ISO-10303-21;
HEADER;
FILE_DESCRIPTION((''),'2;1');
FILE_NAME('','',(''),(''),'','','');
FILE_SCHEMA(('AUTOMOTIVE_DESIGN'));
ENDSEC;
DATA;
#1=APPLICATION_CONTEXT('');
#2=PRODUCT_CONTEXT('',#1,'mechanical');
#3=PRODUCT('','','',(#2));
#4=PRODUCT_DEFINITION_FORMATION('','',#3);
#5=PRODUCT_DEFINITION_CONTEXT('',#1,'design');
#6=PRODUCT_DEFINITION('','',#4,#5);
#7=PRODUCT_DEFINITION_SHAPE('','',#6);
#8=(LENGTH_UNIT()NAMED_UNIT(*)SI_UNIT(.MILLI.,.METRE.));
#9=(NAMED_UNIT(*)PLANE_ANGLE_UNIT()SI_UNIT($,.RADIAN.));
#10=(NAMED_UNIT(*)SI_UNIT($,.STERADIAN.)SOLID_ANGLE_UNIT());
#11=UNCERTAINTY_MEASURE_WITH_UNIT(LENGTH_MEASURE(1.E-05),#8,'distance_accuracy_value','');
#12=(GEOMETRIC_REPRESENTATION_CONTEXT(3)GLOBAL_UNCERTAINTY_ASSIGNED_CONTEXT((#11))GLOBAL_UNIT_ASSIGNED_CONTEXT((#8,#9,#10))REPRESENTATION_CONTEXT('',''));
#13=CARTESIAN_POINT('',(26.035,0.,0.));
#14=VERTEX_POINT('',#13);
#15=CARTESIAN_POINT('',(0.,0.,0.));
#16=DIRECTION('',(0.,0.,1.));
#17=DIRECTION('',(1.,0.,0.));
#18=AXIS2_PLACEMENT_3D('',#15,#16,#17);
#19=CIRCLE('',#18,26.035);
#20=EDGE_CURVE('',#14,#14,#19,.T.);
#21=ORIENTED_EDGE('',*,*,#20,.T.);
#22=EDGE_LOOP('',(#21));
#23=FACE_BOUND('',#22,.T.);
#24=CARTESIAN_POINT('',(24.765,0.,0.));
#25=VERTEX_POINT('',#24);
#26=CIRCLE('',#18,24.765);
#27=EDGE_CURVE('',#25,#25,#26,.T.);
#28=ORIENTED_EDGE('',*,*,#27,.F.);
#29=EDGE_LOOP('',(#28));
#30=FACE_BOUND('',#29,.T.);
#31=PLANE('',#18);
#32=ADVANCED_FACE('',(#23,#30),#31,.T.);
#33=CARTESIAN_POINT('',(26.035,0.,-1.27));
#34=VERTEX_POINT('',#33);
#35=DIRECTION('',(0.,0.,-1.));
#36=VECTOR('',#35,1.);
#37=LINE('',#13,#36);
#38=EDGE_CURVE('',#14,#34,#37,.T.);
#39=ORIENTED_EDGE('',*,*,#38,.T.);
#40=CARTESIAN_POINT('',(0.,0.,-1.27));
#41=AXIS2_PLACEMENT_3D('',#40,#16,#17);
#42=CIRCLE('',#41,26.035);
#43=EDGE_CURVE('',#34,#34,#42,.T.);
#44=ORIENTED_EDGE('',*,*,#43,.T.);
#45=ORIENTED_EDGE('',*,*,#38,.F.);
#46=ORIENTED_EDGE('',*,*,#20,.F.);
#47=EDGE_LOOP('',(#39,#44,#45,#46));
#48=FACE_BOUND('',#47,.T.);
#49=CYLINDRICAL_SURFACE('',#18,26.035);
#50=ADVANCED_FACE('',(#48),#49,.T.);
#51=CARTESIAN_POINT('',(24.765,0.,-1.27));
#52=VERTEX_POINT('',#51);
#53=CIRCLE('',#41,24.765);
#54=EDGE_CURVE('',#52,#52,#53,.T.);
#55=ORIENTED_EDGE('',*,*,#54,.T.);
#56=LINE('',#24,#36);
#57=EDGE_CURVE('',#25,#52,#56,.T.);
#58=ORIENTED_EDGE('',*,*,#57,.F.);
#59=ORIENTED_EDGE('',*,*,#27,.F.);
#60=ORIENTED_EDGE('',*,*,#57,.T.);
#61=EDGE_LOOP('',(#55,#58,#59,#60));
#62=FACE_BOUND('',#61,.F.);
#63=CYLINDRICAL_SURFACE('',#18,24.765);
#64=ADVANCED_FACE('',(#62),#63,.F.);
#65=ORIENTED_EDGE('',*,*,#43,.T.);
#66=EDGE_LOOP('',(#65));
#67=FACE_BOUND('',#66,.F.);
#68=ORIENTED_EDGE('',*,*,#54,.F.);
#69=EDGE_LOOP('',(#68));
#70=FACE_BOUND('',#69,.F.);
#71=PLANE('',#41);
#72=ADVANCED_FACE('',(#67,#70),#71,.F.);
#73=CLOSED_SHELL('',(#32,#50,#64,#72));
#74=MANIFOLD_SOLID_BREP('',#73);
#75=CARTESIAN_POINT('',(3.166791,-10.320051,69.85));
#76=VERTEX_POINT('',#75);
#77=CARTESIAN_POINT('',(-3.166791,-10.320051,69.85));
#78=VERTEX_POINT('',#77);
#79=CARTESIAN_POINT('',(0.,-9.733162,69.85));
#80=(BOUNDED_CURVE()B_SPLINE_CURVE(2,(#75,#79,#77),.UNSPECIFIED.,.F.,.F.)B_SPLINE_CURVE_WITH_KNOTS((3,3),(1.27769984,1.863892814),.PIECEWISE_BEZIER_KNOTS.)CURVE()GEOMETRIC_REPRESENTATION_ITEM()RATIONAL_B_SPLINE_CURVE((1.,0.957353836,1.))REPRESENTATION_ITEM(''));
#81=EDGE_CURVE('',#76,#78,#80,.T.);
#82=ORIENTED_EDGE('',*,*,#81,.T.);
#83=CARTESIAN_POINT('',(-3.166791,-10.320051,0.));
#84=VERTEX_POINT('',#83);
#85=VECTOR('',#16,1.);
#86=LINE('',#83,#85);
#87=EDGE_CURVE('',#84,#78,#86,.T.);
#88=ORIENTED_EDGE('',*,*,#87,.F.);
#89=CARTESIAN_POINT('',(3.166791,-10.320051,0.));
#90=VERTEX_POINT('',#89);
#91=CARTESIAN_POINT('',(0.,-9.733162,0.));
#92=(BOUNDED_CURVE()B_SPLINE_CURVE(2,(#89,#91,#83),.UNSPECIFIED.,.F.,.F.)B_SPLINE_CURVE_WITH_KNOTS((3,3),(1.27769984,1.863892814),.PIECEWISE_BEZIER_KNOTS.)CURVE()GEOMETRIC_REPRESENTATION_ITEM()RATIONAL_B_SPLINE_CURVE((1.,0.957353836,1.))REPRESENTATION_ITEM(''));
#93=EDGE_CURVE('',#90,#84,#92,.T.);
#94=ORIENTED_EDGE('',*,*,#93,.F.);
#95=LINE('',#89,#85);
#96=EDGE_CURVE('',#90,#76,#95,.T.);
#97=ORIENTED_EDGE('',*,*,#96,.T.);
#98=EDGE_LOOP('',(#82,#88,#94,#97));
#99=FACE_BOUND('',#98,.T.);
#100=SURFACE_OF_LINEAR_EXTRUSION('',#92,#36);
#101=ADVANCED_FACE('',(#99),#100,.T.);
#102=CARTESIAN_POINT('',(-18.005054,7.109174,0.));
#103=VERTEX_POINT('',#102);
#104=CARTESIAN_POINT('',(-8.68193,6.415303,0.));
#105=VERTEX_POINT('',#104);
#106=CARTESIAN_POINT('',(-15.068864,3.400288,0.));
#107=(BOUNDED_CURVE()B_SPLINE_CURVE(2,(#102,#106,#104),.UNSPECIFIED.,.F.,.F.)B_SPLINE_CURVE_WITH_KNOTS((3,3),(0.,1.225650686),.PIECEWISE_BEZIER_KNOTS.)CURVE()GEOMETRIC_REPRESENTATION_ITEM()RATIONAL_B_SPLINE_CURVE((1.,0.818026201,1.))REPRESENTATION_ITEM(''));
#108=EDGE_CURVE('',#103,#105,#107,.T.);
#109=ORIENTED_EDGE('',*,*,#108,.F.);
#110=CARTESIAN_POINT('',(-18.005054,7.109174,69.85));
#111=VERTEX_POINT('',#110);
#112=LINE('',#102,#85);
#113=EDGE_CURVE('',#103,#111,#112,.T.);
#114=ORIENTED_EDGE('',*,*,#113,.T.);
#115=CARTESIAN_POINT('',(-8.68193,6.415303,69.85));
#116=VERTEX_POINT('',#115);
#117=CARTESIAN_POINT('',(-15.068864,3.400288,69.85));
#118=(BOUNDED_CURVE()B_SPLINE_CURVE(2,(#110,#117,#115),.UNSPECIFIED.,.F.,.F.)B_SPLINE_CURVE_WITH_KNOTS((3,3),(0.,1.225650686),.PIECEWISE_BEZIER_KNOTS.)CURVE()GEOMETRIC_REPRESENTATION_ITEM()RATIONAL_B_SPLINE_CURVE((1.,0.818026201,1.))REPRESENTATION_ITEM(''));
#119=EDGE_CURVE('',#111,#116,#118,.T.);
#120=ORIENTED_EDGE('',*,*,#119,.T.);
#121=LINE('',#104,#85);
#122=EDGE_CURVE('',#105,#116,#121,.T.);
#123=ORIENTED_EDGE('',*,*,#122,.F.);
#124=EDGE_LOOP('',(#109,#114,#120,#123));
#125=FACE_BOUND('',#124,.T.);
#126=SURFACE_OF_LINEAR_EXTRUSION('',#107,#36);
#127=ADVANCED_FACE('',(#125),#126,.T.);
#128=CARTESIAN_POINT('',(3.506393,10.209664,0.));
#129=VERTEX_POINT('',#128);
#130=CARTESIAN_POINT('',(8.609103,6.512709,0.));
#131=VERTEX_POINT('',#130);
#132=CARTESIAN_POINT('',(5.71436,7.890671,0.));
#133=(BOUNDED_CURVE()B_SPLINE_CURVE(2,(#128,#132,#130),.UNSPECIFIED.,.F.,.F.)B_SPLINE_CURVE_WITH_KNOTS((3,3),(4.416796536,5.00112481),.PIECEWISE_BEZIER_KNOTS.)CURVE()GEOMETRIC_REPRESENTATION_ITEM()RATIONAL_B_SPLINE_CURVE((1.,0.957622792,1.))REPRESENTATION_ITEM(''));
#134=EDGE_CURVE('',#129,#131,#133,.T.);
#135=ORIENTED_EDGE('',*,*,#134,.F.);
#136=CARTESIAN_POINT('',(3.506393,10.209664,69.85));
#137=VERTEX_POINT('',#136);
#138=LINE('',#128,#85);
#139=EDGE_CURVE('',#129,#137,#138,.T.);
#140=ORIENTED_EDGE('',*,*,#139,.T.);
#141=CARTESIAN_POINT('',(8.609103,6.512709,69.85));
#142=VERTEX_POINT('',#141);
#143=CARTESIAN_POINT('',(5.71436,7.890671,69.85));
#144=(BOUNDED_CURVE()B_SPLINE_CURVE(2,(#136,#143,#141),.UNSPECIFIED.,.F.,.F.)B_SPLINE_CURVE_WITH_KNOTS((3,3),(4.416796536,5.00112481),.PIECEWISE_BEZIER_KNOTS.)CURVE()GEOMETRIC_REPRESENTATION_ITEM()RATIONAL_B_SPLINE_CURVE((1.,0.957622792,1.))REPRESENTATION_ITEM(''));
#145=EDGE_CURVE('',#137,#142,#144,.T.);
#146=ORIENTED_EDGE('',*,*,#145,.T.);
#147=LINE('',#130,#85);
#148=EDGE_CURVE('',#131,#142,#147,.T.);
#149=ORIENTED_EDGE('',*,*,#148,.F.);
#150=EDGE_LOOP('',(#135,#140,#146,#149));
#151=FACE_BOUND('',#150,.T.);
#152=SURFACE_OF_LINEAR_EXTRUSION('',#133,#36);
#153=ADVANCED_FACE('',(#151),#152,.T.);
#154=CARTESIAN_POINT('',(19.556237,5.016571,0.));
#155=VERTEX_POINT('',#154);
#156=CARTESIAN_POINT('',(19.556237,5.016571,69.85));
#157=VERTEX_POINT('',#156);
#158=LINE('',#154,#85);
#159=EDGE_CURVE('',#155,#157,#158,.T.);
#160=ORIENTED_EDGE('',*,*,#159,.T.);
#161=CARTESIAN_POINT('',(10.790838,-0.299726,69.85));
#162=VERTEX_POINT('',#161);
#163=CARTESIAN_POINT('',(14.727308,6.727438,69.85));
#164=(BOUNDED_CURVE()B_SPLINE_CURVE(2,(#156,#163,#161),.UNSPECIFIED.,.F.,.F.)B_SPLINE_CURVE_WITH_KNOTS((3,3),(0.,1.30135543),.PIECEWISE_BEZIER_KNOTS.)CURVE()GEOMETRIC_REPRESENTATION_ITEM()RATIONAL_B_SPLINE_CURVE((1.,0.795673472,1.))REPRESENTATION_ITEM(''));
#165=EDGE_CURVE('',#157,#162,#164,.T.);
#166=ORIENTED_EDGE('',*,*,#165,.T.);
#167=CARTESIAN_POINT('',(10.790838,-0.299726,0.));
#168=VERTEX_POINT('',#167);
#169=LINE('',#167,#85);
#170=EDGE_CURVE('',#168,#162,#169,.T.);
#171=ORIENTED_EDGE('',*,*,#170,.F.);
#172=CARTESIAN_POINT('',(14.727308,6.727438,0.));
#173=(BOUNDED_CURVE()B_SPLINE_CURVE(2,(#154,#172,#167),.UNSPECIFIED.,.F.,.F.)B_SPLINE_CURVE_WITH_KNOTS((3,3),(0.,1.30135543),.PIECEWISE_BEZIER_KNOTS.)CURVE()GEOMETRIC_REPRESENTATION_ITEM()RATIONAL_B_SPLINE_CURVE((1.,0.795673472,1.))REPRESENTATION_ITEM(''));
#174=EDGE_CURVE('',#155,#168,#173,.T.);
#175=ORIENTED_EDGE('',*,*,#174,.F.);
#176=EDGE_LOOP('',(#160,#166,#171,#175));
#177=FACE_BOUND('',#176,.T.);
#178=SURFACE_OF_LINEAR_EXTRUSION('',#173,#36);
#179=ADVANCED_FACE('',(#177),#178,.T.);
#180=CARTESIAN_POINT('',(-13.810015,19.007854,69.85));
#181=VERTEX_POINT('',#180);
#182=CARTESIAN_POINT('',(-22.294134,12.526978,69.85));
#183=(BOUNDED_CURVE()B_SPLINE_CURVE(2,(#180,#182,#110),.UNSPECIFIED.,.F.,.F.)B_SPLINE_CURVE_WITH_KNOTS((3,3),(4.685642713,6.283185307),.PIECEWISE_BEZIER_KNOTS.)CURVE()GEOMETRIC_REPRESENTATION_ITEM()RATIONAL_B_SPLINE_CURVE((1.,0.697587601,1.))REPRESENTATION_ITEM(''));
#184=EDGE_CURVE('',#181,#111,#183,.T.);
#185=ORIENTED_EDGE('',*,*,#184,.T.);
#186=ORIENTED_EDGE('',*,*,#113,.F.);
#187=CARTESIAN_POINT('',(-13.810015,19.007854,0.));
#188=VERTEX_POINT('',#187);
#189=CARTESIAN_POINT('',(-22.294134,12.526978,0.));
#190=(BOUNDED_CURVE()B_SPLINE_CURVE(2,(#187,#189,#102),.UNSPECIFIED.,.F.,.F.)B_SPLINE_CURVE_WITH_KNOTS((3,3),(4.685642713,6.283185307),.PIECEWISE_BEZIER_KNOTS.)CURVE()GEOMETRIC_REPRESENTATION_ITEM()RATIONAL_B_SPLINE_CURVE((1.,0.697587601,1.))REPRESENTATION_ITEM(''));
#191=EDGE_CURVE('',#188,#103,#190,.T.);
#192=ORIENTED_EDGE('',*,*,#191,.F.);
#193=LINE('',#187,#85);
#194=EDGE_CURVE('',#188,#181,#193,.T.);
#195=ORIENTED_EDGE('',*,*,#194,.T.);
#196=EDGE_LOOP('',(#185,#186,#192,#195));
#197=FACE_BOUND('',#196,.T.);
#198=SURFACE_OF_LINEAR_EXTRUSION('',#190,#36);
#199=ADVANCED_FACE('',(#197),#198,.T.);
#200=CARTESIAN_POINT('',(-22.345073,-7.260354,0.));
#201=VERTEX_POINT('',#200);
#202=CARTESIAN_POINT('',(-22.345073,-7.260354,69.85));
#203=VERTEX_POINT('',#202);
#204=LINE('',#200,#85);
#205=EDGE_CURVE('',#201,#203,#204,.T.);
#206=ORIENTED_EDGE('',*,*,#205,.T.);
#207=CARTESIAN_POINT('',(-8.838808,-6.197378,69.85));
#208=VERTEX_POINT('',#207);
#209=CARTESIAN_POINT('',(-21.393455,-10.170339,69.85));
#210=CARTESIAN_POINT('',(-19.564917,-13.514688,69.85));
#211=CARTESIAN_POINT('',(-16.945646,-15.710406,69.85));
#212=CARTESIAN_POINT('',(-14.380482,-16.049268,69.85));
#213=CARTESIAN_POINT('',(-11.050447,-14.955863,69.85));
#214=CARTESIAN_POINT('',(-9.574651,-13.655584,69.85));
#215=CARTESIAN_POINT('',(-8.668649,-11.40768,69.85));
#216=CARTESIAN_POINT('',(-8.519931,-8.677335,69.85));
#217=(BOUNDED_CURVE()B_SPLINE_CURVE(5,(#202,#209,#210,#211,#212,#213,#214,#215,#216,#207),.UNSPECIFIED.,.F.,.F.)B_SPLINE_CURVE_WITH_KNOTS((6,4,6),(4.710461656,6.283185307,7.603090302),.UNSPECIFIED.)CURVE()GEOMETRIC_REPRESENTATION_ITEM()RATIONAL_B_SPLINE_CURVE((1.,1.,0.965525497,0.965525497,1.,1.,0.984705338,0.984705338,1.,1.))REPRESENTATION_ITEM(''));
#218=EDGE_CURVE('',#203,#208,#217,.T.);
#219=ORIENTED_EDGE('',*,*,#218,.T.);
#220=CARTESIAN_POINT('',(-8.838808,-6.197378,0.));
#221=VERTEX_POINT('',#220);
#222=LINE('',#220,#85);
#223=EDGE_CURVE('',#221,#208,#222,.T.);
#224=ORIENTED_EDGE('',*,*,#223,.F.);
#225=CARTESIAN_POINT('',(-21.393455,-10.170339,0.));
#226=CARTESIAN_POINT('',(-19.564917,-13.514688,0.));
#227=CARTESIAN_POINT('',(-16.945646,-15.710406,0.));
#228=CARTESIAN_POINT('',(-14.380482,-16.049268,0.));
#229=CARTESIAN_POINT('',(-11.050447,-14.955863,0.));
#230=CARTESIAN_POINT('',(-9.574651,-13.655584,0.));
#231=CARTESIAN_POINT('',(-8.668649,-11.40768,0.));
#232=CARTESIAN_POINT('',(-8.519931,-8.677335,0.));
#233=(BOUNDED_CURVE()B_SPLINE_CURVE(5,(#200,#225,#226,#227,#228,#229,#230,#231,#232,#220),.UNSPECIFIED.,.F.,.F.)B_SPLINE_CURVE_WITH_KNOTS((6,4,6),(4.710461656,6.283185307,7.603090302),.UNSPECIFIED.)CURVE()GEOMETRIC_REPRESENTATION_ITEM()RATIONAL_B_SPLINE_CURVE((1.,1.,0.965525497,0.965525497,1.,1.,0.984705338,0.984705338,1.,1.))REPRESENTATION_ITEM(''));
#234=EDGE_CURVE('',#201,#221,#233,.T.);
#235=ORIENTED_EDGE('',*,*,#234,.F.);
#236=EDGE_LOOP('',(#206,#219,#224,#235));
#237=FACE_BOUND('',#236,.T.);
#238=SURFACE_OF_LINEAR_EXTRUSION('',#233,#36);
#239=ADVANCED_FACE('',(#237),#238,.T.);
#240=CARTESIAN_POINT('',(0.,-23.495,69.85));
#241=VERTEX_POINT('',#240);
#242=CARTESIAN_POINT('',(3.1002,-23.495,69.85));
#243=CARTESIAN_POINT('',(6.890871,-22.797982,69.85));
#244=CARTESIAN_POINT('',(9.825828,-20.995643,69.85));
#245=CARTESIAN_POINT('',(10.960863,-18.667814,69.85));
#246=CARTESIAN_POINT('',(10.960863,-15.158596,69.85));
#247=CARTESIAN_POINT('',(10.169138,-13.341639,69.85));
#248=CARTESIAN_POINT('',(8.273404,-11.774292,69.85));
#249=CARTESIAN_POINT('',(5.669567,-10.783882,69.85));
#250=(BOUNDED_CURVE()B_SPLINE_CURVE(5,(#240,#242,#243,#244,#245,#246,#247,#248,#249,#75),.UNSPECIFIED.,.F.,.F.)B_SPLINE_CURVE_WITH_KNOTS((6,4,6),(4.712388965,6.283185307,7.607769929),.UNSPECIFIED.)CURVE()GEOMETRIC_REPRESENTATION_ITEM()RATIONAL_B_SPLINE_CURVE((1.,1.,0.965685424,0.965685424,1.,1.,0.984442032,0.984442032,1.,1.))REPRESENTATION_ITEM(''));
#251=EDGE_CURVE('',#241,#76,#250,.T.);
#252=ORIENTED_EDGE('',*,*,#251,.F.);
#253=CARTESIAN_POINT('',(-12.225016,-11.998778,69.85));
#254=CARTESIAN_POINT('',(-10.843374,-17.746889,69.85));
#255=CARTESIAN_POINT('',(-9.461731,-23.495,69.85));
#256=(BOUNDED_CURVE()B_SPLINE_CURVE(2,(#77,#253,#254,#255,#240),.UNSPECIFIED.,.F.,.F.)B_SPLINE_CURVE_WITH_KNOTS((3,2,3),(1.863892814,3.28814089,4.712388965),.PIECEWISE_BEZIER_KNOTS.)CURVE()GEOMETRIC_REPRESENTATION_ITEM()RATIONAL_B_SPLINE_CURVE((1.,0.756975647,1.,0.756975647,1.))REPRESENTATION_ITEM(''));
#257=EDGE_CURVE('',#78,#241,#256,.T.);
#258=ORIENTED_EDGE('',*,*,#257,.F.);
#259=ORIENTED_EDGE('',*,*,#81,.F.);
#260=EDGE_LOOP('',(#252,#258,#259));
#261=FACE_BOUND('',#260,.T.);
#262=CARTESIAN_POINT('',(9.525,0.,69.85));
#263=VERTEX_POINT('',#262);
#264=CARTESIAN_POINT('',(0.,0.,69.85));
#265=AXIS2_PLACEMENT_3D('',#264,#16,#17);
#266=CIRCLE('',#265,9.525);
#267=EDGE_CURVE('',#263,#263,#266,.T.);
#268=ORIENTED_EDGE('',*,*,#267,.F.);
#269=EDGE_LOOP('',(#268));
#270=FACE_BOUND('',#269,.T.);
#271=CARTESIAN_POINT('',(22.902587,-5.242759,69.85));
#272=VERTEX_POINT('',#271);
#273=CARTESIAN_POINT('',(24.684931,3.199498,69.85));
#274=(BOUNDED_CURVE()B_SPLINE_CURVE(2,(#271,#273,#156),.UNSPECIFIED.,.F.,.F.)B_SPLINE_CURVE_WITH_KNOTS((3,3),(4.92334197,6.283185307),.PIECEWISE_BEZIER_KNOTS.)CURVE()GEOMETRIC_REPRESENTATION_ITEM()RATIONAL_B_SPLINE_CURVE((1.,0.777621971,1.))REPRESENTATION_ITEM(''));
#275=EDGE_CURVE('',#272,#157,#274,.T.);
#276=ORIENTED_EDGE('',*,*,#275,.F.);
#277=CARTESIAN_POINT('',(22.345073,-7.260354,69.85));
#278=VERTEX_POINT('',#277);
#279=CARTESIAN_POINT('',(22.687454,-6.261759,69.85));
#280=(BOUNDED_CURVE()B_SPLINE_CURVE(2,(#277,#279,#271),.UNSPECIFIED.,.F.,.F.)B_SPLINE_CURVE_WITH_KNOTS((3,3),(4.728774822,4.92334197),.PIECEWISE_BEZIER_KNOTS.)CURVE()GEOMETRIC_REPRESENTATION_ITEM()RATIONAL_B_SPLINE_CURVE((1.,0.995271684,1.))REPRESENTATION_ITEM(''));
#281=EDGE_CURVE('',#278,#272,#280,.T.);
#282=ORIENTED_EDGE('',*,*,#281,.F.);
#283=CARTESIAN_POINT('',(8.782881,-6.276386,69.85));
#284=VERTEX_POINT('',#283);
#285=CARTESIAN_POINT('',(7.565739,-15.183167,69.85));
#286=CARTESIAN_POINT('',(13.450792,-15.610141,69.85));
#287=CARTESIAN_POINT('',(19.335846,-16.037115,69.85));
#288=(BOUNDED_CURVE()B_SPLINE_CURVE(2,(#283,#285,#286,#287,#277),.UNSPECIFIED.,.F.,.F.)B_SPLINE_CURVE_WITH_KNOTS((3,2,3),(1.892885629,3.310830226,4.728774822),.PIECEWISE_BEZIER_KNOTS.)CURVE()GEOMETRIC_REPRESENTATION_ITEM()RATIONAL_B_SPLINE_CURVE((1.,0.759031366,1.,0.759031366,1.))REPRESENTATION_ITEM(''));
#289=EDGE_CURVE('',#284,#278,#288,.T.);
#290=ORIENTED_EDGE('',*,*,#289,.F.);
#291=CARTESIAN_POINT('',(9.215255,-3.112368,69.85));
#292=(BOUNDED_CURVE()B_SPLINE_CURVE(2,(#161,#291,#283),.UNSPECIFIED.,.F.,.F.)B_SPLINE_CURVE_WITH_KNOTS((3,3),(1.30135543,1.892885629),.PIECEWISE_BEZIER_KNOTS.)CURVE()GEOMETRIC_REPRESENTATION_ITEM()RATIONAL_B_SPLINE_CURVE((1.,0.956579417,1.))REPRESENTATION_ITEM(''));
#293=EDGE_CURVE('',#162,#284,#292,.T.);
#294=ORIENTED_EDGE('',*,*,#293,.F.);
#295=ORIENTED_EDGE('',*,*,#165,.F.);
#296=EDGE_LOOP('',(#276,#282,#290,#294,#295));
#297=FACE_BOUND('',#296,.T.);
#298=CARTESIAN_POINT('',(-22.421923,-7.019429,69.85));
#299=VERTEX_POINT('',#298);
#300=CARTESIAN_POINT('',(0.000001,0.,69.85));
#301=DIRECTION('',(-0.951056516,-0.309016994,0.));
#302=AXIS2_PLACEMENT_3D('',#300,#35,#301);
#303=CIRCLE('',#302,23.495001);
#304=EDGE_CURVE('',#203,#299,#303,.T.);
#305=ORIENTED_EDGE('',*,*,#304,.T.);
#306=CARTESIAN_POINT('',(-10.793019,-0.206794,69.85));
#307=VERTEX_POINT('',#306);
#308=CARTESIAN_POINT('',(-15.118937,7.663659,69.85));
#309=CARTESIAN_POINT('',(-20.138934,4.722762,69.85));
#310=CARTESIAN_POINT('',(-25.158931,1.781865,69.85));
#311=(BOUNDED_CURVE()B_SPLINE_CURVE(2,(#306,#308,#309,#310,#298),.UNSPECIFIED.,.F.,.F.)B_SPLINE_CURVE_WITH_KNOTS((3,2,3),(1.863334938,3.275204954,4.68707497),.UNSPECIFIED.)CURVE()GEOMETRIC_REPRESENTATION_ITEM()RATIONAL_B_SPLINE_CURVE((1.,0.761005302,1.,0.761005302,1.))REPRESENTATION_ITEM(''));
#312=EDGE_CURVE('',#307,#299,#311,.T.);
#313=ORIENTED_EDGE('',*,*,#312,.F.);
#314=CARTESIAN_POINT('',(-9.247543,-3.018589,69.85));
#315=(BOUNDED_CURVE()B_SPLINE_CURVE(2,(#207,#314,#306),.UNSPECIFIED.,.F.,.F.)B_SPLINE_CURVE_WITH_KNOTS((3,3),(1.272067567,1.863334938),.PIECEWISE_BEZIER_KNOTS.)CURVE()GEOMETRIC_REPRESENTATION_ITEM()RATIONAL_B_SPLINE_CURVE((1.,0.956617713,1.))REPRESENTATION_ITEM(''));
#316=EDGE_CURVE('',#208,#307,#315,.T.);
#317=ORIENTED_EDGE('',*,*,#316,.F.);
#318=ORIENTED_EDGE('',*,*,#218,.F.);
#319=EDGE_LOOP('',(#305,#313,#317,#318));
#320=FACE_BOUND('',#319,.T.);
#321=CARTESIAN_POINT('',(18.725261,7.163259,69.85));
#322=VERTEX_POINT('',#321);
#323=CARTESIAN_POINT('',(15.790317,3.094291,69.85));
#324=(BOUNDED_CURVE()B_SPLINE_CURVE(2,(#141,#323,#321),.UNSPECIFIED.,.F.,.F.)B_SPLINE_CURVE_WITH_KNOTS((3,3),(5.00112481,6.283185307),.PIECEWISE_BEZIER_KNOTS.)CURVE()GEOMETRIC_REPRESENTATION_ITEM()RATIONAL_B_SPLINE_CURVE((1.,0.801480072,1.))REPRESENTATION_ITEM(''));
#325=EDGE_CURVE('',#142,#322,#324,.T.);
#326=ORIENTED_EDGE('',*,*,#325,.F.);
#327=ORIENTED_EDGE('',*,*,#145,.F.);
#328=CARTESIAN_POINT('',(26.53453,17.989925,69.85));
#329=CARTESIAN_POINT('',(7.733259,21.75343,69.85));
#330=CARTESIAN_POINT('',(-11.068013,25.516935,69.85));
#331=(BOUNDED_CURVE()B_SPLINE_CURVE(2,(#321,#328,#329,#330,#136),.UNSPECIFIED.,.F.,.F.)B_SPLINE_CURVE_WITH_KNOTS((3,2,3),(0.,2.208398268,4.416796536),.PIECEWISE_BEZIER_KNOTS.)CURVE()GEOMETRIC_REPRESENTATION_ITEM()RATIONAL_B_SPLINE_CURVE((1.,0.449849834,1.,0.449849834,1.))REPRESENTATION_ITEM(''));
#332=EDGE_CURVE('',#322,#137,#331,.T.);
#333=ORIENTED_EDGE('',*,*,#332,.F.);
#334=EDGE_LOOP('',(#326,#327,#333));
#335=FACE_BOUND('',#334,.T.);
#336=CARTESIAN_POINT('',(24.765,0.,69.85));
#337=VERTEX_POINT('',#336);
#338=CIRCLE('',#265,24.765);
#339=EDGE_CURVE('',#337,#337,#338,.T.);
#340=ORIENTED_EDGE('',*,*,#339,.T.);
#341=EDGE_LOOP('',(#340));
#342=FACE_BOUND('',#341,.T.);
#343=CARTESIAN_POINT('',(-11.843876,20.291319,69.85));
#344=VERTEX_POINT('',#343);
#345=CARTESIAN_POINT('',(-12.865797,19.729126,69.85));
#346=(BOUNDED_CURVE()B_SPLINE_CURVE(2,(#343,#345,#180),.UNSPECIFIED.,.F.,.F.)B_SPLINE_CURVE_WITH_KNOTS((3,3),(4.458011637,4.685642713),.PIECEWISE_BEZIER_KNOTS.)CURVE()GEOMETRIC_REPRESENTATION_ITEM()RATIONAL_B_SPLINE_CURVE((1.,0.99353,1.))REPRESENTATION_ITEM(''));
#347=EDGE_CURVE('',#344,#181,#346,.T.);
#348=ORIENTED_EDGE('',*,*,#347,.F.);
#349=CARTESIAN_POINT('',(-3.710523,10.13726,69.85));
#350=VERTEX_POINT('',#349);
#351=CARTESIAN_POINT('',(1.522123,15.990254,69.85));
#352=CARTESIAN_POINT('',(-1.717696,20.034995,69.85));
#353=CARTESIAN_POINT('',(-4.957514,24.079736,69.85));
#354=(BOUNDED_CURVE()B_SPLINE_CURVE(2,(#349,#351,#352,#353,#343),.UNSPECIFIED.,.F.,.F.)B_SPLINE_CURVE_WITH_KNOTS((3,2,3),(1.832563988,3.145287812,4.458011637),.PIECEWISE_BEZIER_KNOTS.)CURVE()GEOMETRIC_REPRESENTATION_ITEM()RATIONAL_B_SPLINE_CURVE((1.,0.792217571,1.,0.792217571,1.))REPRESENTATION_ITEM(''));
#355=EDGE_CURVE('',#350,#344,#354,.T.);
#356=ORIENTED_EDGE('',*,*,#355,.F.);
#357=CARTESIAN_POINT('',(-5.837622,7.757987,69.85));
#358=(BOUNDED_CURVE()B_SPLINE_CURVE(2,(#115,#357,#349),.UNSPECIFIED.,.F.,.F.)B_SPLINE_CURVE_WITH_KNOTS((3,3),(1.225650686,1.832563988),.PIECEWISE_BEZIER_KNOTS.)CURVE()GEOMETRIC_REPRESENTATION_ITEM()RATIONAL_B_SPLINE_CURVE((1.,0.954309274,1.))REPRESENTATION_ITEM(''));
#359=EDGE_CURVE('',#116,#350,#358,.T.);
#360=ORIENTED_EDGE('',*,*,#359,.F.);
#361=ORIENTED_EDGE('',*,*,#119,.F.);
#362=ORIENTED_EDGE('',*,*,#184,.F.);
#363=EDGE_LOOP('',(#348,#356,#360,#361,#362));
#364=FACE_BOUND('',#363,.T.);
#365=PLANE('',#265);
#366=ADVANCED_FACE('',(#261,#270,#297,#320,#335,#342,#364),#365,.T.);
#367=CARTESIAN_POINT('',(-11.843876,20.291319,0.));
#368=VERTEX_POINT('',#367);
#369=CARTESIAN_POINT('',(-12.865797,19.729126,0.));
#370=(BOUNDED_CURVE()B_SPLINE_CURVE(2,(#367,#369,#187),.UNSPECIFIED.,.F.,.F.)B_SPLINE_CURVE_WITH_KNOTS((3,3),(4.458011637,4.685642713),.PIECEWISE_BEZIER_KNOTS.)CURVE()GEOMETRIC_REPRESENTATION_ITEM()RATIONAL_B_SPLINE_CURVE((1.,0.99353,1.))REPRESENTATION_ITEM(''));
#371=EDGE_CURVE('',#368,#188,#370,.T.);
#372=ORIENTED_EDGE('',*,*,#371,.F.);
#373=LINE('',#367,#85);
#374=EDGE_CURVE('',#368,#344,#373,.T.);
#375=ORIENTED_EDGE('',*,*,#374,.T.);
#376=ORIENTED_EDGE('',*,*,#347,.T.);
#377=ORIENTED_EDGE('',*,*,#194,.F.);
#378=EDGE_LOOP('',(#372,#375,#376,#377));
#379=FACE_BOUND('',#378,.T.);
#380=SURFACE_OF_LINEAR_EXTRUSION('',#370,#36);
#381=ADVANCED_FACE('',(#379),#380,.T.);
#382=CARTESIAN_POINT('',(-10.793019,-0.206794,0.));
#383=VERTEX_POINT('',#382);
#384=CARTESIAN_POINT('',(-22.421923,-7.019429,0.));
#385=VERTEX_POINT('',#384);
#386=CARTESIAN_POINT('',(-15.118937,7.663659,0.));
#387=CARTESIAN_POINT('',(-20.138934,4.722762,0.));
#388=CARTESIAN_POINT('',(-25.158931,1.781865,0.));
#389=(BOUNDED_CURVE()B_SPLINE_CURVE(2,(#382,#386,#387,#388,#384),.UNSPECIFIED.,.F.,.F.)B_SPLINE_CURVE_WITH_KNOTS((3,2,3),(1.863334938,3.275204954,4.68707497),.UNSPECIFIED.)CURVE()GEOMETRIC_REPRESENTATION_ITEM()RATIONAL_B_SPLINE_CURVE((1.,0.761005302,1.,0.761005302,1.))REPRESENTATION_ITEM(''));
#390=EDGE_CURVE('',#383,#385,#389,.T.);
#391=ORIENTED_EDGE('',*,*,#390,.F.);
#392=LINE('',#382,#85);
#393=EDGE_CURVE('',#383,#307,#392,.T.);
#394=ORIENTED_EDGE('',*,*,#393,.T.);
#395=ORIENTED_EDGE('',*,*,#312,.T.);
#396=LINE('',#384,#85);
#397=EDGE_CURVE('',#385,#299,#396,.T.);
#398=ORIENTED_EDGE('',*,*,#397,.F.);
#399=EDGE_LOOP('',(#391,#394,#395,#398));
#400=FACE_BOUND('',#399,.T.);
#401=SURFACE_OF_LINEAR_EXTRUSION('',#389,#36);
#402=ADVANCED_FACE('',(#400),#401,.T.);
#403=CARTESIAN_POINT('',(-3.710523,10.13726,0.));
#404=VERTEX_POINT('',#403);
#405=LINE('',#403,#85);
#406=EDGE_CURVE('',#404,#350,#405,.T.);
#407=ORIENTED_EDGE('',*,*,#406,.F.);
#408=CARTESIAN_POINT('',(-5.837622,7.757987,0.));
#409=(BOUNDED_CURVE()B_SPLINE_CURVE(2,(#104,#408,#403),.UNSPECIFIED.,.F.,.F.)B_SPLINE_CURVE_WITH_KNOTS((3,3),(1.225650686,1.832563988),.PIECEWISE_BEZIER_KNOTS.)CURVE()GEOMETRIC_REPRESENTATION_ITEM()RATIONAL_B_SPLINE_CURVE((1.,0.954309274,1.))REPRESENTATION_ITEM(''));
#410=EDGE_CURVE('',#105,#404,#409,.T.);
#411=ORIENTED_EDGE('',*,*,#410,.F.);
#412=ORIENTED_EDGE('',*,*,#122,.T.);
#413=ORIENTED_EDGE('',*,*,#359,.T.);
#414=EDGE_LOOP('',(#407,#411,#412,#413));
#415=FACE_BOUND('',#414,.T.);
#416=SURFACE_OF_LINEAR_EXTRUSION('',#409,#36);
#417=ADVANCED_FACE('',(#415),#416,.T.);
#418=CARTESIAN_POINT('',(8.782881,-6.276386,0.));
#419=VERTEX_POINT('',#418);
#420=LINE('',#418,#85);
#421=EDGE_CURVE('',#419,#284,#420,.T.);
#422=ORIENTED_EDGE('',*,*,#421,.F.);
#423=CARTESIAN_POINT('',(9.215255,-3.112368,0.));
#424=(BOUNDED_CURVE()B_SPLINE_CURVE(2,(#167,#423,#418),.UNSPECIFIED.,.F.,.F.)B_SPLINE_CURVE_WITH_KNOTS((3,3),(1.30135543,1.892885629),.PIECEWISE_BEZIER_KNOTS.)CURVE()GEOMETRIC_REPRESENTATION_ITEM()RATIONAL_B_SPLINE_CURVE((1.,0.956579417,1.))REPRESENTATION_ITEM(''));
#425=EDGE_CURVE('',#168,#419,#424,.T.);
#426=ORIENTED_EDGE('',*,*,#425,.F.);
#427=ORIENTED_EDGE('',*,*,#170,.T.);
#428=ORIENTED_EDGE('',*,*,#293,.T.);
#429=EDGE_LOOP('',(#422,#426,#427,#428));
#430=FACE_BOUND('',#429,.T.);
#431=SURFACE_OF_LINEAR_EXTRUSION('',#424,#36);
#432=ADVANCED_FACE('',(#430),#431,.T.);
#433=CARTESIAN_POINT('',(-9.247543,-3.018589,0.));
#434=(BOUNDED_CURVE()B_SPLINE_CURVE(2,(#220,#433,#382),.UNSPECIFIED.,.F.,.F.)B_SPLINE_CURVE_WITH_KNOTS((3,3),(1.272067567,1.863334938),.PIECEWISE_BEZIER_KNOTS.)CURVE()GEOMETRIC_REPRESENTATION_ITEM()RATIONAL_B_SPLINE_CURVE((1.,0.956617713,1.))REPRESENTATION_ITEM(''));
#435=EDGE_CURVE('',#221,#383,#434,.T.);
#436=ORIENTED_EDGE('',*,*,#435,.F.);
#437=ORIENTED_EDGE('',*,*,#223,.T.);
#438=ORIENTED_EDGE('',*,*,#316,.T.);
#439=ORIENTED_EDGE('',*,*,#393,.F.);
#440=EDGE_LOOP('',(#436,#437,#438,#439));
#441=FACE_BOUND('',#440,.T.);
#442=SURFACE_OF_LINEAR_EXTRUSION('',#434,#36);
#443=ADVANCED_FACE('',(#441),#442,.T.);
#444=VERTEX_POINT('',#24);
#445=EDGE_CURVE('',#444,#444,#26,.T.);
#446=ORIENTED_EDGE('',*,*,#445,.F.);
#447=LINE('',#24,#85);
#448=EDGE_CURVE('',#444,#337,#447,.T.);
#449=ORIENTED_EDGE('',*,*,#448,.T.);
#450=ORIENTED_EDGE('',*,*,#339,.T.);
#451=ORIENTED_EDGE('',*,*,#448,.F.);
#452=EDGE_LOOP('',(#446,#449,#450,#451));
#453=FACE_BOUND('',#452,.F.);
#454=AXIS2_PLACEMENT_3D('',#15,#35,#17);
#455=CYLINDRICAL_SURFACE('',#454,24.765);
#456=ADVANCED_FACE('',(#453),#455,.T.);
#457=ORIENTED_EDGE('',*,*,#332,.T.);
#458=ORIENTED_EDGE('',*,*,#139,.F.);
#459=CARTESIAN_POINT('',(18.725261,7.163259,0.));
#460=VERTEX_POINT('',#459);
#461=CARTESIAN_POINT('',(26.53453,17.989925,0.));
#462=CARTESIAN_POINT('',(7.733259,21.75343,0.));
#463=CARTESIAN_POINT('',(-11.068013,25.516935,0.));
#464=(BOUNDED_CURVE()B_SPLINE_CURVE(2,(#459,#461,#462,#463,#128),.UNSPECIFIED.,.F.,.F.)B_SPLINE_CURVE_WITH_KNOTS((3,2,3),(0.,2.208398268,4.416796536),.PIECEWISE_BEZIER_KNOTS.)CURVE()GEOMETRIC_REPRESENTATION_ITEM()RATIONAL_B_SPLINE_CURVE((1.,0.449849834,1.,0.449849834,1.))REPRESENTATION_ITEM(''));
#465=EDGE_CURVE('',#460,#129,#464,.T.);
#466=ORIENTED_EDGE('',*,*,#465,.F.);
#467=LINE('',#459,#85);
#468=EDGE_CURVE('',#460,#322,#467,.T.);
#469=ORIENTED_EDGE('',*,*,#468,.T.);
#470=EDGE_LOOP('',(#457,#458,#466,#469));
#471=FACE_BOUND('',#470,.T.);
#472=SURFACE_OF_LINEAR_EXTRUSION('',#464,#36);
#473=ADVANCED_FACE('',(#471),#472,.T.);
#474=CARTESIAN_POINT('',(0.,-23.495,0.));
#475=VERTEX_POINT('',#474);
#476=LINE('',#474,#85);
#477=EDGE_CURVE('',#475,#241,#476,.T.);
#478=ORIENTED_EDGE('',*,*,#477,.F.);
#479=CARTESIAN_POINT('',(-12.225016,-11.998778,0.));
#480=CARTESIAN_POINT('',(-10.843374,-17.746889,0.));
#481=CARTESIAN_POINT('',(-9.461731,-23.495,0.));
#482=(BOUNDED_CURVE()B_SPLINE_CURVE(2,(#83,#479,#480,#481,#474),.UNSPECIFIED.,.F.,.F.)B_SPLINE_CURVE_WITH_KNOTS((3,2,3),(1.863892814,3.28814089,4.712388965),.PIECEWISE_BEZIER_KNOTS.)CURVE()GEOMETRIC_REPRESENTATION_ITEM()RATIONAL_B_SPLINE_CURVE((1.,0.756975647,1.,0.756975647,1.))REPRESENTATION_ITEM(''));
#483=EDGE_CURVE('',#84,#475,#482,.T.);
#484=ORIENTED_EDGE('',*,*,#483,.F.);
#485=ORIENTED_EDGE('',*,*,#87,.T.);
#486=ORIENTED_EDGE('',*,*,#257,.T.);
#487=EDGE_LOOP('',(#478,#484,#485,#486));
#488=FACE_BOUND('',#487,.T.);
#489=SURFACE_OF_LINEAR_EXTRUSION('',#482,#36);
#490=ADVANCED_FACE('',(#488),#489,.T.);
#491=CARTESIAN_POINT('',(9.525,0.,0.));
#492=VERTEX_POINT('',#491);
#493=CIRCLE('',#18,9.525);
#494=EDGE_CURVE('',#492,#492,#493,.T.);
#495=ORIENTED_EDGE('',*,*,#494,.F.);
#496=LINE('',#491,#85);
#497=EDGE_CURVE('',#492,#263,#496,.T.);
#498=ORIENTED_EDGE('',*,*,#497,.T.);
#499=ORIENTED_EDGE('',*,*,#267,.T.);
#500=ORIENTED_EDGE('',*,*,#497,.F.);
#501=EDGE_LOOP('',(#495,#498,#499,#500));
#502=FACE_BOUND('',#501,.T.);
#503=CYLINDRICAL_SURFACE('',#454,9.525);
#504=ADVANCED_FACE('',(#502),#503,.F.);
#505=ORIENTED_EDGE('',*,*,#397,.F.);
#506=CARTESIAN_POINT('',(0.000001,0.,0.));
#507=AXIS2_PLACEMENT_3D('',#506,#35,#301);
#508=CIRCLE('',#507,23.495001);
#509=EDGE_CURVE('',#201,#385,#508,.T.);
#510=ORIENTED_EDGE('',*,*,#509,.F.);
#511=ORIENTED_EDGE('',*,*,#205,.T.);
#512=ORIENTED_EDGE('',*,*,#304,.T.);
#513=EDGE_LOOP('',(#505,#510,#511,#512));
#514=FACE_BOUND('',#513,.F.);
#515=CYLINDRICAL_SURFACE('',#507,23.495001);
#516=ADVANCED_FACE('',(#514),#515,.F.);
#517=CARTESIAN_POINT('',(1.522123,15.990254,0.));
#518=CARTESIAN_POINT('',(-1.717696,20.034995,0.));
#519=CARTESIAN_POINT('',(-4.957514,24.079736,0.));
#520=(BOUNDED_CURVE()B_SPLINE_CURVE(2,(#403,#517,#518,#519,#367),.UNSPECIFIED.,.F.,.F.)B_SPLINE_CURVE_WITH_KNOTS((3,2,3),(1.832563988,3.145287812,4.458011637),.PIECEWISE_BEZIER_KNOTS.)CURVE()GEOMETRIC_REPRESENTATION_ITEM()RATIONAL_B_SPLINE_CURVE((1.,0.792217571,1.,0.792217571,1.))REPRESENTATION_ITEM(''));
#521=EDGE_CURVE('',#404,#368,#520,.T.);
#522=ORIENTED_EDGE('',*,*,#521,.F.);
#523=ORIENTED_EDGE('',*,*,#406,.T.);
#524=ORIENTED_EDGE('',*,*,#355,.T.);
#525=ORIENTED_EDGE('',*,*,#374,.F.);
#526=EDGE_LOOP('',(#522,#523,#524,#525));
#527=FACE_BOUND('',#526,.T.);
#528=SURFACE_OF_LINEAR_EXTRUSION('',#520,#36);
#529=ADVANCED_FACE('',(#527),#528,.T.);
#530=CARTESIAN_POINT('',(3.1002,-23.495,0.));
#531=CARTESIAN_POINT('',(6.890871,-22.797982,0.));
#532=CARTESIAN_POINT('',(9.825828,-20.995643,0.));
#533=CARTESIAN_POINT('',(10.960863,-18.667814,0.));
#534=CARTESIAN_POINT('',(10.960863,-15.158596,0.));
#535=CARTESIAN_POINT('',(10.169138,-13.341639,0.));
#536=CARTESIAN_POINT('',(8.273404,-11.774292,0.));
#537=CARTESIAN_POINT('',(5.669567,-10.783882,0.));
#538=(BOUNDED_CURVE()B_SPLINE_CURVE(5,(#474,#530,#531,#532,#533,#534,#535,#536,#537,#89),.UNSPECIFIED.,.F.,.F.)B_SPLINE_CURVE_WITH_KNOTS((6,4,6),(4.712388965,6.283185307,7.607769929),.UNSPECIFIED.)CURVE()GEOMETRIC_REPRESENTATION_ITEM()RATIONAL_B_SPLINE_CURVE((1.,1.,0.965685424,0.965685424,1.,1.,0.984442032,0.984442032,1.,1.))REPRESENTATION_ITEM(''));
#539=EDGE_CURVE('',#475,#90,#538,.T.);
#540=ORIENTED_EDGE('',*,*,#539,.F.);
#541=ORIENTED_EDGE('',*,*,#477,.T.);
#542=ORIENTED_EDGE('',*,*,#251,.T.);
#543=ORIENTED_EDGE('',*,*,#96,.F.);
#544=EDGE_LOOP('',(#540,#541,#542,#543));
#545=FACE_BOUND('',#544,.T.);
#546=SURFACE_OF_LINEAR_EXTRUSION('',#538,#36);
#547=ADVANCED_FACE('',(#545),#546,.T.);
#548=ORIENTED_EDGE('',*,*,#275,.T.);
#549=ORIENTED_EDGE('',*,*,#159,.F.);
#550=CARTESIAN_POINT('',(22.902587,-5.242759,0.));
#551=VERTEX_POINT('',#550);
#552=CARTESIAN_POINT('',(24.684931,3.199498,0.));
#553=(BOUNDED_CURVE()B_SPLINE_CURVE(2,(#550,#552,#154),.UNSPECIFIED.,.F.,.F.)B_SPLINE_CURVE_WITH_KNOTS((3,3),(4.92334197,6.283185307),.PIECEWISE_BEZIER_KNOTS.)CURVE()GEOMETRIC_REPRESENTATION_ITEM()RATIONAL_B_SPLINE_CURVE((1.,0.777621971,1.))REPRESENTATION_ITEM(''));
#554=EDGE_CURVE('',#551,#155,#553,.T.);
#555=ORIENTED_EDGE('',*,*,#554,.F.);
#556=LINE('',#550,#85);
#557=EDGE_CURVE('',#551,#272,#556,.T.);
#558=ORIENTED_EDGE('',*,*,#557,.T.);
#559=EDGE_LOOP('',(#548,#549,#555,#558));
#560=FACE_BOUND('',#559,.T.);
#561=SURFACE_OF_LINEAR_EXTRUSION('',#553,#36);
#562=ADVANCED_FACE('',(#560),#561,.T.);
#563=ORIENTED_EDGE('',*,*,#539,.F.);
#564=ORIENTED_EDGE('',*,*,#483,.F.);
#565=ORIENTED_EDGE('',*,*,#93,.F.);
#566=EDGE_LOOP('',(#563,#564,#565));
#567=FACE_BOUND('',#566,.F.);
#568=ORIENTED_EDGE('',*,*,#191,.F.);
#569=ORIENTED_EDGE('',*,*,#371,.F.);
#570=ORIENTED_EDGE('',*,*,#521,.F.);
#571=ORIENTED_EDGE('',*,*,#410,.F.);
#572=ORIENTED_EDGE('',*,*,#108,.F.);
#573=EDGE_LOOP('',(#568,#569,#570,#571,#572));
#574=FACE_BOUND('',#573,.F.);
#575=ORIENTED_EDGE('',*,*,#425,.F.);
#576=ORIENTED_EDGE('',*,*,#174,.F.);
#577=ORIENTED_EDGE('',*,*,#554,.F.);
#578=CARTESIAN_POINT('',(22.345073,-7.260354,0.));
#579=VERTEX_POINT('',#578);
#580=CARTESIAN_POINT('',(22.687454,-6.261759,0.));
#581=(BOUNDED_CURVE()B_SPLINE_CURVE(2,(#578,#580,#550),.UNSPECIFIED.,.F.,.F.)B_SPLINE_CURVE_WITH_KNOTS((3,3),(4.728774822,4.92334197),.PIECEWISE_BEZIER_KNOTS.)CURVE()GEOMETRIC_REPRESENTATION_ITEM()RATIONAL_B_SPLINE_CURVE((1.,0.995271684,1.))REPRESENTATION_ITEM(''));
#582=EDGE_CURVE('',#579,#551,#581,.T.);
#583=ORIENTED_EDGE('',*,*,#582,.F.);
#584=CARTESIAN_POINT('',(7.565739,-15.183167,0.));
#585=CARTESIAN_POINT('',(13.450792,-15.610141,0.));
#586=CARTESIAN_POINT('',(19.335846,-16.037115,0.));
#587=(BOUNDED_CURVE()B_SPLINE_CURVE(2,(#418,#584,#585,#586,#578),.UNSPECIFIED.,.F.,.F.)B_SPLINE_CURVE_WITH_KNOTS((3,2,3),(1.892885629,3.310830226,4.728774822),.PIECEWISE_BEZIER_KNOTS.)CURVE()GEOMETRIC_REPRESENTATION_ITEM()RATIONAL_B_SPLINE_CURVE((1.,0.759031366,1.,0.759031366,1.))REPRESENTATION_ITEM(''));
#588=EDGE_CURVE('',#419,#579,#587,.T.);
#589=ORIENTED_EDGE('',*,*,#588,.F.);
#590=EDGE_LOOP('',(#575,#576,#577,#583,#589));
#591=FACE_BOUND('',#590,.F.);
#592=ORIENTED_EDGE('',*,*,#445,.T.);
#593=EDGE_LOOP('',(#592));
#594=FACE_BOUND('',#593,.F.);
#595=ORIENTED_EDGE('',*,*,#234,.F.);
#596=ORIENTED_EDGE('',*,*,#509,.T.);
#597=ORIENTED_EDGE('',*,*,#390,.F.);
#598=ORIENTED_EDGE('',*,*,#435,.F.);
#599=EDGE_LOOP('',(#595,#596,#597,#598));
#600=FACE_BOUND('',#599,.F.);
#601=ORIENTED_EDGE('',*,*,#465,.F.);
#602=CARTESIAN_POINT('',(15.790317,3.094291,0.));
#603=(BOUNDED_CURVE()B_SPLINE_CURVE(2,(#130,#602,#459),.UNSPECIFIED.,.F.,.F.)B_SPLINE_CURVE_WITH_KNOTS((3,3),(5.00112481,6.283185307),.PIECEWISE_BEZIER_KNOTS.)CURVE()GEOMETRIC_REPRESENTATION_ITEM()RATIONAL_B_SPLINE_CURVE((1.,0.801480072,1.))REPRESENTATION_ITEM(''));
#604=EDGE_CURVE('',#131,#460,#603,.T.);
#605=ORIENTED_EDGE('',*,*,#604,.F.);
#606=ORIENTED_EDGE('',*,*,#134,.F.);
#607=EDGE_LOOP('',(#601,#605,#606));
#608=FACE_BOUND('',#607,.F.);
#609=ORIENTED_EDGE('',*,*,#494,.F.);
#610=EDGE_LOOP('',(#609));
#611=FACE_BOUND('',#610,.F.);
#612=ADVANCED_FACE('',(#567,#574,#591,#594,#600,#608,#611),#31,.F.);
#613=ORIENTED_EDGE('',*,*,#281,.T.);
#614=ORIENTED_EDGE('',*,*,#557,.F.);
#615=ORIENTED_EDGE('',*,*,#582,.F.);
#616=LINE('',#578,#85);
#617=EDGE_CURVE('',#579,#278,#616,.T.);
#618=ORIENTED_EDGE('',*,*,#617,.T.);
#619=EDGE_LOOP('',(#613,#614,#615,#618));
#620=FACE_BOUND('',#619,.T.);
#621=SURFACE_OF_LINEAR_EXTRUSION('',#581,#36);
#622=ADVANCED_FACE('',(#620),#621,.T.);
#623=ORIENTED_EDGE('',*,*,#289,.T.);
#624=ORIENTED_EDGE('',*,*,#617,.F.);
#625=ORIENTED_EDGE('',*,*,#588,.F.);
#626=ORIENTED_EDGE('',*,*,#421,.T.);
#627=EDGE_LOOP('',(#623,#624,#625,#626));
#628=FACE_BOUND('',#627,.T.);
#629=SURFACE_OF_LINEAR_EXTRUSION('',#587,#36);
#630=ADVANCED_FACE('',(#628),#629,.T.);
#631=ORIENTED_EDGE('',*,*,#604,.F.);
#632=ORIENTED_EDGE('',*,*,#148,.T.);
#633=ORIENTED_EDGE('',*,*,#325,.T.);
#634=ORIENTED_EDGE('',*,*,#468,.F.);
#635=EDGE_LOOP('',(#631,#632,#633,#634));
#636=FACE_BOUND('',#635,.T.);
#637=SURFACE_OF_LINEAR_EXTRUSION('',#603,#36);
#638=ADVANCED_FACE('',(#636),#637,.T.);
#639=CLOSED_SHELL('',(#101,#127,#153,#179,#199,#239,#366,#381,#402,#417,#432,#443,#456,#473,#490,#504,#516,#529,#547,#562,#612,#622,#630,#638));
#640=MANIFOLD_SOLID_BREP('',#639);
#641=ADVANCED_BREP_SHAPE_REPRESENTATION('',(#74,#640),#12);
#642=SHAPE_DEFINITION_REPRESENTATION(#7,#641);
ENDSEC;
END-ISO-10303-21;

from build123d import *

# Parameters (mm, degrees)
F0_R     = 24.765
F0_R_2   = 9.525
F1_DEPTH = 69.85
F0_R_3   = 26.035
F2_DEPTH = 1.27


with BuildPart() as f1:
    # F0 (on Top) → F1 (new body)
    with BuildSketch(Plane.XY):
        Circle(F0_R)
        with BuildLine():
            ThreePointArc((-11.8438762985, 20.2913188143), (11.6992126095, 20.3750693083), (23.495, 0))
            ThreePointArc((23.495, 0), (23.3464270493, -2.6380616054), (22.9025872284, -5.242759125))
            add(Edge.make_bspline(
                [(22.3450728504, -7.2603542828), (22.6874542509, -6.2617589103), (22.9025872284, -5.242759125)],
                knots=[4.7287748222, 4.7287748222, 4.7287748222, 4.9233419702, 4.9233419702, 4.9233419702], degree=2, weights=[1, 0.995271684, 1]))
            ThreePointArc((22.3450728504, -7.2603542828), (13.8100144344, -19.0078543324), (-1.686e-07, -23.495))
            ThreePointArc((-1.686e-07, -23.495), (-13.8100145708, -19.0078542333), (-22.3450728504, -7.2603542828))
            ThreePointArc((-22.3450728504, -7.2603542828), (-22.3838222656, -7.1399948026), (-22.4219233818, -7.0194285279))
            ThreePointArc((-22.4219233818, -7.0194285279), (-22.3056762584, 7.3805034826), (-13.8100145026, 19.0078542828))
            add(Edge.make_bspline(
                [(-11.8438762985, 20.2913188143), (-12.8657967174, 19.7291263408), (-13.8100145026, 19.0078542828)],
                knots=[4.458011637, 4.458011637, 4.458011637, 4.6856427133, 4.6856427133, 4.6856427133], degree=2, weights=[1, 0.9935300005, 1]))
        make_face(mode=Mode.SUBTRACT)
        with BuildLine():
            ThreePointArc((-22.3450728504, -7.2603542828), (-13.8100145708, -19.0078542333), (-1.686e-07, -23.495))
            add(Edge.make_bspline(
                [(-3.16679104, -10.3200513327), (-12.2250157711, -11.998778469), (-10.8433736094, -17.7468891898), (-9.4617314476, -23.4949999106), (-1.686e-07, -23.495)],
                knots=[1.863892814, 1.863892814, 1.863892814, 3.2881408895, 3.2881408895, 4.712388965, 4.712388965, 4.712388965], degree=2, weights=[1, 0.7569756468, 1, 0.7569756468, 1]))
            ThreePointArc((-3.16679104, -10.3200513327), (-6.3468664898, -8.7320851324), (-8.8388084458, -6.1973776921))
            add(Edge.make_bspline(
                [(-12.569940649, -15.4547831044), (-7.8478387164, -13.9042973621), (-8.8388084458, -6.1973776921)],
                knots=[0, 0, 0, 1.2720675666, 1.2720675666, 1.2720675666], degree=2, weights=[1, 0.8044580494, 1]))
            add(Edge.make_bspline(
                [(-22.3450728504, -7.2603542828), (-18.9773492466, -17.5586334273), (-12.569940649, -15.4547831044)],
                knots=[4.7104616558, 4.7104616558, 4.7104616558, 6.2831853072, 6.2831853072, 6.2831853072], degree=2, weights=[1, 0.7064250408, 1]))
        make_face()
        with BuildLine():
            ThreePointArc((-1.686e-07, -23.495), (13.8100144344, -19.0078543324), (22.3450728504, -7.2603542828))
            add(Edge.make_bspline(
                [(8.7828810696, -6.2763863104), (7.5657386075, -15.1831667899), (13.4507924985, -15.6101408837), (19.3358463895, -16.0371149774), (22.3450728504, -7.2603542828)],
                knots=[1.8928856288, 1.8928856288, 1.8928856288, 3.3108302255, 3.3108302255, 4.7287748222, 4.7287748222, 4.7287748222], degree=2, weights=[1, 0.759031366, 1, 0.759031366, 1]))
            ThreePointArc((8.7828810696, -6.2763863104), (6.3076519074, -8.7604538932), (3.16679104, -10.3200513327))
            add(Edge.make_bspline(
                [(10.9608629718, -16.764), (10.9608629718, -11.7644977273), (3.16679104, -10.3200513327)],
                knots=[0, 0, 0, 1.2776998396, 1.2776998396, 1.2776998396], degree=2, weights=[1, 0.8027820499, 1]))
            add(Edge.make_bspline(
                [(-1.686e-07, -23.495), (10.9608629718, -23.4950001035), (10.9608629718, -16.764)],
                knots=[4.712388965, 4.712388965, 4.712388965, 6.2831853072, 6.2831853072, 6.2831853072], degree=2, weights=[1, 0.7071067757, 1]))
        make_face()
        with BuildLine():
            ThreePointArc((3.5063931355, 10.2096636663), (-0.1082951648, 10.7944567792), (-3.7105232282, 10.1372601019))
            add(Edge.make_bspline(
                [(-8.6819299405, 6.415303384), (-5.8376217277, 7.7579870896), (-3.7105232282, 10.1372601019)],
                knots=[1.2256506863, 1.2256506863, 1.2256506863, 1.832563988, 1.832563988, 1.832563988], degree=2, weights=[1, 0.9543092736, 1]))
            ThreePointArc((-8.6819299405, 6.415303384), (-10.285011057, 3.278806575), (-10.7930191038, -0.206793678))
            add(Edge.make_bspline(
                [(-8.8388084458, -6.1973776921), (-9.2475428738, -3.0185889667), (-10.7930191038, -0.206793678)],
                knots=[1.2720675666, 1.2720675666, 1.2720675666, 1.8633349383, 1.8633349383, 1.8633349383], degree=2, weights=[1, 0.9566177125, 1]))
            ThreePointArc((-8.8388084458, -6.1973776921), (-6.3468664898, -8.7320851324), (-3.16679104, -10.3200513327))
            add(Edge.make_bspline(
                [(3.16679104, -10.3200513327), (0, -9.7331617145), (-3.16679104, -10.3200513327)],
                knots=[1.2776998396, 1.2776998396, 1.2776998396, 1.863892814, 1.863892814, 1.863892814], degree=2, weights=[1, 0.9573538356, 1]))
            ThreePointArc((3.16679104, -10.3200513327), (6.3076519074, -8.7604538932), (8.7828810696, -6.2763863104))
            add(Edge.make_bspline(
                [(10.7908382065, -0.2997262099), (9.2152551173, -3.1123682534), (8.7828810696, -6.2763863104)],
                knots=[1.30135543, 1.30135543, 1.30135543, 1.8928856288, 1.8928856288, 1.8928856288], degree=2, weights=[1, 0.9565794174, 1]))
            ThreePointArc((10.7908382065, -0.2997262099), (10.7939595015, -0.1498775512), (10.795, 0))
            ThreePointArc((10.795, 0), (10.2339456896, 3.4348770897), (8.6091027102, 6.5127087701))
            add(Edge.make_bspline(
                [(3.5063931355, 10.2096636663), (5.7143597451, 7.8906708199), (8.6091027102, 6.5127087701)],
                knots=[4.4167965362, 4.4167965362, 4.4167965362, 5.0011248099, 5.0011248099, 5.0011248099], degree=2, weights=[1, 0.9576227923, 1]))
        make_face()
        Circle(F0_R_2, mode=Mode.SUBTRACT)
        with BuildLine():
            ThreePointArc((22.9025872284, -5.242759125), (23.3464270493, -2.6380616054), (23.495, 0))
            ThreePointArc((23.495, 0), (11.6992126095, 20.3750693083), (-11.8438762985, 20.2913188143))
            add(Edge.make_bspline(
                [(-3.7105232282, 10.1372601019), (1.5221229716, 15.9902536933), (-1.717695614, 20.0349948783), (-4.9575141996, 24.0797360633), (-11.8438762985, 20.2913188143)],
                knots=[1.832563988, 1.832563988, 1.832563988, 3.1452878125, 3.1452878125, 4.458011637, 4.458011637, 4.458011637], degree=2, weights=[1, 0.7922175714, 1, 0.7922175714, 1]))
            ThreePointArc((-3.7105232282, 10.1372601019), (-0.1082951648, 10.7944567792), (3.5063931355, 10.2096636663))
            add(Edge.make_bspline(
                [(18.7252610922, 7.1632587351), (26.5345304959, 17.9899247505), (7.7332586813, 21.7534298504), (-11.0680131334, 25.5169349502), (3.5063931355, 10.2096636663)],
                knots=[0, 0, 0, 2.2083982681, 2.2083982681, 4.4167965362, 4.4167965362, 4.4167965362], degree=2, weights=[1, 0.4498498342, 1, 0.4498498342, 1]))
            add(Edge.make_bspline(
                [(8.6091027102, 6.5127087701), (15.7903166082, 3.0942911967), (18.7252610922, 7.1632587351)],
                knots=[5.0011248099, 5.0011248099, 5.0011248099, 6.2831853072, 6.2831853072, 6.2831853072], degree=2, weights=[1, 0.8014800725, 1]))
            ThreePointArc((8.6091027102, 6.5127087701), (10.2339456896, 3.4348770897), (10.795, 0))
            ThreePointArc((10.795, 0), (10.7939595015, -0.1498775512), (10.7908382065, -0.2997262099))
            add(Edge.make_bspline(
                [(19.5562373847, 5.0165709108), (14.7273083506, 6.7274382133), (10.7908382065, -0.2997262099)],
                knots=[0, 0, 0, 1.30135543, 1.30135543, 1.30135543], degree=2, weights=[1, 0.7956734719, 1]))
            add(Edge.make_bspline(
                [(22.9025872284, -5.242759125), (24.6849310711, 3.1994983734), (19.5562373847, 5.0165709108)],
                knots=[4.9233419702, 4.9233419702, 4.9233419702, 6.2831853072, 6.2831853072, 6.2831853072], degree=2, weights=[1, 0.7776219707, 1]))
        make_face()
        with BuildLine():
            add(Edge.make_bspline(
                [(-13.8100145026, 19.0078542828), (-22.2941343057, 12.5269781053), (-18.0050544441, 7.1091740392)],
                knots=[4.6856427133, 4.6856427133, 4.6856427133, 6.2831853072, 6.2831853072, 6.2831853072], degree=2, weights=[1, 0.6975876008, 1]))
            ThreePointArc((-13.8100145026, 19.0078542828), (-22.3056762584, 7.3805034826), (-22.4219233818, -7.0194285279))
            add(Edge.make_bspline(
                [(-10.7930191038, -0.206793678), (-15.1189374285, 7.6636585029), (-20.138934215, 4.7227619028), (-25.1589310014, 1.7818653028), (-22.4219233818, -7.0194285279)],
                knots=[1.8633349383, 1.8633349383, 1.8633349383, 3.2752049544, 3.2752049544, 4.6870749704, 4.6870749704, 4.6870749704], degree=2, weights=[1, 0.7610053021, 1, 0.7610053021, 1]))
            ThreePointArc((-10.7930191038, -0.206793678), (-10.285011057, 3.278806575), (-8.6819299405, 6.415303384))
            add(Edge.make_bspline(
                [(-18.0050544441, 7.1091740392), (-15.0688636244, 3.4002884332), (-8.6819299405, 6.415303384)],
                knots=[0, 0, 0, 1.2256506863, 1.2256506863, 1.2256506863], degree=2, weights=[1, 0.8180262014, 1]))
        make_face()
    extrude(amount=F1_DEPTH)


with BuildPart() as f2:
    # F0 (on Top) → F2 (new body)
    with BuildSketch(Plane.XY):
        Circle(F0_R_3)
        Circle(F0_R, mode=Mode.SUBTRACT)
    extrude(amount=-F2_DEPTH)


solid = Compound([f1.part, f2.part])
